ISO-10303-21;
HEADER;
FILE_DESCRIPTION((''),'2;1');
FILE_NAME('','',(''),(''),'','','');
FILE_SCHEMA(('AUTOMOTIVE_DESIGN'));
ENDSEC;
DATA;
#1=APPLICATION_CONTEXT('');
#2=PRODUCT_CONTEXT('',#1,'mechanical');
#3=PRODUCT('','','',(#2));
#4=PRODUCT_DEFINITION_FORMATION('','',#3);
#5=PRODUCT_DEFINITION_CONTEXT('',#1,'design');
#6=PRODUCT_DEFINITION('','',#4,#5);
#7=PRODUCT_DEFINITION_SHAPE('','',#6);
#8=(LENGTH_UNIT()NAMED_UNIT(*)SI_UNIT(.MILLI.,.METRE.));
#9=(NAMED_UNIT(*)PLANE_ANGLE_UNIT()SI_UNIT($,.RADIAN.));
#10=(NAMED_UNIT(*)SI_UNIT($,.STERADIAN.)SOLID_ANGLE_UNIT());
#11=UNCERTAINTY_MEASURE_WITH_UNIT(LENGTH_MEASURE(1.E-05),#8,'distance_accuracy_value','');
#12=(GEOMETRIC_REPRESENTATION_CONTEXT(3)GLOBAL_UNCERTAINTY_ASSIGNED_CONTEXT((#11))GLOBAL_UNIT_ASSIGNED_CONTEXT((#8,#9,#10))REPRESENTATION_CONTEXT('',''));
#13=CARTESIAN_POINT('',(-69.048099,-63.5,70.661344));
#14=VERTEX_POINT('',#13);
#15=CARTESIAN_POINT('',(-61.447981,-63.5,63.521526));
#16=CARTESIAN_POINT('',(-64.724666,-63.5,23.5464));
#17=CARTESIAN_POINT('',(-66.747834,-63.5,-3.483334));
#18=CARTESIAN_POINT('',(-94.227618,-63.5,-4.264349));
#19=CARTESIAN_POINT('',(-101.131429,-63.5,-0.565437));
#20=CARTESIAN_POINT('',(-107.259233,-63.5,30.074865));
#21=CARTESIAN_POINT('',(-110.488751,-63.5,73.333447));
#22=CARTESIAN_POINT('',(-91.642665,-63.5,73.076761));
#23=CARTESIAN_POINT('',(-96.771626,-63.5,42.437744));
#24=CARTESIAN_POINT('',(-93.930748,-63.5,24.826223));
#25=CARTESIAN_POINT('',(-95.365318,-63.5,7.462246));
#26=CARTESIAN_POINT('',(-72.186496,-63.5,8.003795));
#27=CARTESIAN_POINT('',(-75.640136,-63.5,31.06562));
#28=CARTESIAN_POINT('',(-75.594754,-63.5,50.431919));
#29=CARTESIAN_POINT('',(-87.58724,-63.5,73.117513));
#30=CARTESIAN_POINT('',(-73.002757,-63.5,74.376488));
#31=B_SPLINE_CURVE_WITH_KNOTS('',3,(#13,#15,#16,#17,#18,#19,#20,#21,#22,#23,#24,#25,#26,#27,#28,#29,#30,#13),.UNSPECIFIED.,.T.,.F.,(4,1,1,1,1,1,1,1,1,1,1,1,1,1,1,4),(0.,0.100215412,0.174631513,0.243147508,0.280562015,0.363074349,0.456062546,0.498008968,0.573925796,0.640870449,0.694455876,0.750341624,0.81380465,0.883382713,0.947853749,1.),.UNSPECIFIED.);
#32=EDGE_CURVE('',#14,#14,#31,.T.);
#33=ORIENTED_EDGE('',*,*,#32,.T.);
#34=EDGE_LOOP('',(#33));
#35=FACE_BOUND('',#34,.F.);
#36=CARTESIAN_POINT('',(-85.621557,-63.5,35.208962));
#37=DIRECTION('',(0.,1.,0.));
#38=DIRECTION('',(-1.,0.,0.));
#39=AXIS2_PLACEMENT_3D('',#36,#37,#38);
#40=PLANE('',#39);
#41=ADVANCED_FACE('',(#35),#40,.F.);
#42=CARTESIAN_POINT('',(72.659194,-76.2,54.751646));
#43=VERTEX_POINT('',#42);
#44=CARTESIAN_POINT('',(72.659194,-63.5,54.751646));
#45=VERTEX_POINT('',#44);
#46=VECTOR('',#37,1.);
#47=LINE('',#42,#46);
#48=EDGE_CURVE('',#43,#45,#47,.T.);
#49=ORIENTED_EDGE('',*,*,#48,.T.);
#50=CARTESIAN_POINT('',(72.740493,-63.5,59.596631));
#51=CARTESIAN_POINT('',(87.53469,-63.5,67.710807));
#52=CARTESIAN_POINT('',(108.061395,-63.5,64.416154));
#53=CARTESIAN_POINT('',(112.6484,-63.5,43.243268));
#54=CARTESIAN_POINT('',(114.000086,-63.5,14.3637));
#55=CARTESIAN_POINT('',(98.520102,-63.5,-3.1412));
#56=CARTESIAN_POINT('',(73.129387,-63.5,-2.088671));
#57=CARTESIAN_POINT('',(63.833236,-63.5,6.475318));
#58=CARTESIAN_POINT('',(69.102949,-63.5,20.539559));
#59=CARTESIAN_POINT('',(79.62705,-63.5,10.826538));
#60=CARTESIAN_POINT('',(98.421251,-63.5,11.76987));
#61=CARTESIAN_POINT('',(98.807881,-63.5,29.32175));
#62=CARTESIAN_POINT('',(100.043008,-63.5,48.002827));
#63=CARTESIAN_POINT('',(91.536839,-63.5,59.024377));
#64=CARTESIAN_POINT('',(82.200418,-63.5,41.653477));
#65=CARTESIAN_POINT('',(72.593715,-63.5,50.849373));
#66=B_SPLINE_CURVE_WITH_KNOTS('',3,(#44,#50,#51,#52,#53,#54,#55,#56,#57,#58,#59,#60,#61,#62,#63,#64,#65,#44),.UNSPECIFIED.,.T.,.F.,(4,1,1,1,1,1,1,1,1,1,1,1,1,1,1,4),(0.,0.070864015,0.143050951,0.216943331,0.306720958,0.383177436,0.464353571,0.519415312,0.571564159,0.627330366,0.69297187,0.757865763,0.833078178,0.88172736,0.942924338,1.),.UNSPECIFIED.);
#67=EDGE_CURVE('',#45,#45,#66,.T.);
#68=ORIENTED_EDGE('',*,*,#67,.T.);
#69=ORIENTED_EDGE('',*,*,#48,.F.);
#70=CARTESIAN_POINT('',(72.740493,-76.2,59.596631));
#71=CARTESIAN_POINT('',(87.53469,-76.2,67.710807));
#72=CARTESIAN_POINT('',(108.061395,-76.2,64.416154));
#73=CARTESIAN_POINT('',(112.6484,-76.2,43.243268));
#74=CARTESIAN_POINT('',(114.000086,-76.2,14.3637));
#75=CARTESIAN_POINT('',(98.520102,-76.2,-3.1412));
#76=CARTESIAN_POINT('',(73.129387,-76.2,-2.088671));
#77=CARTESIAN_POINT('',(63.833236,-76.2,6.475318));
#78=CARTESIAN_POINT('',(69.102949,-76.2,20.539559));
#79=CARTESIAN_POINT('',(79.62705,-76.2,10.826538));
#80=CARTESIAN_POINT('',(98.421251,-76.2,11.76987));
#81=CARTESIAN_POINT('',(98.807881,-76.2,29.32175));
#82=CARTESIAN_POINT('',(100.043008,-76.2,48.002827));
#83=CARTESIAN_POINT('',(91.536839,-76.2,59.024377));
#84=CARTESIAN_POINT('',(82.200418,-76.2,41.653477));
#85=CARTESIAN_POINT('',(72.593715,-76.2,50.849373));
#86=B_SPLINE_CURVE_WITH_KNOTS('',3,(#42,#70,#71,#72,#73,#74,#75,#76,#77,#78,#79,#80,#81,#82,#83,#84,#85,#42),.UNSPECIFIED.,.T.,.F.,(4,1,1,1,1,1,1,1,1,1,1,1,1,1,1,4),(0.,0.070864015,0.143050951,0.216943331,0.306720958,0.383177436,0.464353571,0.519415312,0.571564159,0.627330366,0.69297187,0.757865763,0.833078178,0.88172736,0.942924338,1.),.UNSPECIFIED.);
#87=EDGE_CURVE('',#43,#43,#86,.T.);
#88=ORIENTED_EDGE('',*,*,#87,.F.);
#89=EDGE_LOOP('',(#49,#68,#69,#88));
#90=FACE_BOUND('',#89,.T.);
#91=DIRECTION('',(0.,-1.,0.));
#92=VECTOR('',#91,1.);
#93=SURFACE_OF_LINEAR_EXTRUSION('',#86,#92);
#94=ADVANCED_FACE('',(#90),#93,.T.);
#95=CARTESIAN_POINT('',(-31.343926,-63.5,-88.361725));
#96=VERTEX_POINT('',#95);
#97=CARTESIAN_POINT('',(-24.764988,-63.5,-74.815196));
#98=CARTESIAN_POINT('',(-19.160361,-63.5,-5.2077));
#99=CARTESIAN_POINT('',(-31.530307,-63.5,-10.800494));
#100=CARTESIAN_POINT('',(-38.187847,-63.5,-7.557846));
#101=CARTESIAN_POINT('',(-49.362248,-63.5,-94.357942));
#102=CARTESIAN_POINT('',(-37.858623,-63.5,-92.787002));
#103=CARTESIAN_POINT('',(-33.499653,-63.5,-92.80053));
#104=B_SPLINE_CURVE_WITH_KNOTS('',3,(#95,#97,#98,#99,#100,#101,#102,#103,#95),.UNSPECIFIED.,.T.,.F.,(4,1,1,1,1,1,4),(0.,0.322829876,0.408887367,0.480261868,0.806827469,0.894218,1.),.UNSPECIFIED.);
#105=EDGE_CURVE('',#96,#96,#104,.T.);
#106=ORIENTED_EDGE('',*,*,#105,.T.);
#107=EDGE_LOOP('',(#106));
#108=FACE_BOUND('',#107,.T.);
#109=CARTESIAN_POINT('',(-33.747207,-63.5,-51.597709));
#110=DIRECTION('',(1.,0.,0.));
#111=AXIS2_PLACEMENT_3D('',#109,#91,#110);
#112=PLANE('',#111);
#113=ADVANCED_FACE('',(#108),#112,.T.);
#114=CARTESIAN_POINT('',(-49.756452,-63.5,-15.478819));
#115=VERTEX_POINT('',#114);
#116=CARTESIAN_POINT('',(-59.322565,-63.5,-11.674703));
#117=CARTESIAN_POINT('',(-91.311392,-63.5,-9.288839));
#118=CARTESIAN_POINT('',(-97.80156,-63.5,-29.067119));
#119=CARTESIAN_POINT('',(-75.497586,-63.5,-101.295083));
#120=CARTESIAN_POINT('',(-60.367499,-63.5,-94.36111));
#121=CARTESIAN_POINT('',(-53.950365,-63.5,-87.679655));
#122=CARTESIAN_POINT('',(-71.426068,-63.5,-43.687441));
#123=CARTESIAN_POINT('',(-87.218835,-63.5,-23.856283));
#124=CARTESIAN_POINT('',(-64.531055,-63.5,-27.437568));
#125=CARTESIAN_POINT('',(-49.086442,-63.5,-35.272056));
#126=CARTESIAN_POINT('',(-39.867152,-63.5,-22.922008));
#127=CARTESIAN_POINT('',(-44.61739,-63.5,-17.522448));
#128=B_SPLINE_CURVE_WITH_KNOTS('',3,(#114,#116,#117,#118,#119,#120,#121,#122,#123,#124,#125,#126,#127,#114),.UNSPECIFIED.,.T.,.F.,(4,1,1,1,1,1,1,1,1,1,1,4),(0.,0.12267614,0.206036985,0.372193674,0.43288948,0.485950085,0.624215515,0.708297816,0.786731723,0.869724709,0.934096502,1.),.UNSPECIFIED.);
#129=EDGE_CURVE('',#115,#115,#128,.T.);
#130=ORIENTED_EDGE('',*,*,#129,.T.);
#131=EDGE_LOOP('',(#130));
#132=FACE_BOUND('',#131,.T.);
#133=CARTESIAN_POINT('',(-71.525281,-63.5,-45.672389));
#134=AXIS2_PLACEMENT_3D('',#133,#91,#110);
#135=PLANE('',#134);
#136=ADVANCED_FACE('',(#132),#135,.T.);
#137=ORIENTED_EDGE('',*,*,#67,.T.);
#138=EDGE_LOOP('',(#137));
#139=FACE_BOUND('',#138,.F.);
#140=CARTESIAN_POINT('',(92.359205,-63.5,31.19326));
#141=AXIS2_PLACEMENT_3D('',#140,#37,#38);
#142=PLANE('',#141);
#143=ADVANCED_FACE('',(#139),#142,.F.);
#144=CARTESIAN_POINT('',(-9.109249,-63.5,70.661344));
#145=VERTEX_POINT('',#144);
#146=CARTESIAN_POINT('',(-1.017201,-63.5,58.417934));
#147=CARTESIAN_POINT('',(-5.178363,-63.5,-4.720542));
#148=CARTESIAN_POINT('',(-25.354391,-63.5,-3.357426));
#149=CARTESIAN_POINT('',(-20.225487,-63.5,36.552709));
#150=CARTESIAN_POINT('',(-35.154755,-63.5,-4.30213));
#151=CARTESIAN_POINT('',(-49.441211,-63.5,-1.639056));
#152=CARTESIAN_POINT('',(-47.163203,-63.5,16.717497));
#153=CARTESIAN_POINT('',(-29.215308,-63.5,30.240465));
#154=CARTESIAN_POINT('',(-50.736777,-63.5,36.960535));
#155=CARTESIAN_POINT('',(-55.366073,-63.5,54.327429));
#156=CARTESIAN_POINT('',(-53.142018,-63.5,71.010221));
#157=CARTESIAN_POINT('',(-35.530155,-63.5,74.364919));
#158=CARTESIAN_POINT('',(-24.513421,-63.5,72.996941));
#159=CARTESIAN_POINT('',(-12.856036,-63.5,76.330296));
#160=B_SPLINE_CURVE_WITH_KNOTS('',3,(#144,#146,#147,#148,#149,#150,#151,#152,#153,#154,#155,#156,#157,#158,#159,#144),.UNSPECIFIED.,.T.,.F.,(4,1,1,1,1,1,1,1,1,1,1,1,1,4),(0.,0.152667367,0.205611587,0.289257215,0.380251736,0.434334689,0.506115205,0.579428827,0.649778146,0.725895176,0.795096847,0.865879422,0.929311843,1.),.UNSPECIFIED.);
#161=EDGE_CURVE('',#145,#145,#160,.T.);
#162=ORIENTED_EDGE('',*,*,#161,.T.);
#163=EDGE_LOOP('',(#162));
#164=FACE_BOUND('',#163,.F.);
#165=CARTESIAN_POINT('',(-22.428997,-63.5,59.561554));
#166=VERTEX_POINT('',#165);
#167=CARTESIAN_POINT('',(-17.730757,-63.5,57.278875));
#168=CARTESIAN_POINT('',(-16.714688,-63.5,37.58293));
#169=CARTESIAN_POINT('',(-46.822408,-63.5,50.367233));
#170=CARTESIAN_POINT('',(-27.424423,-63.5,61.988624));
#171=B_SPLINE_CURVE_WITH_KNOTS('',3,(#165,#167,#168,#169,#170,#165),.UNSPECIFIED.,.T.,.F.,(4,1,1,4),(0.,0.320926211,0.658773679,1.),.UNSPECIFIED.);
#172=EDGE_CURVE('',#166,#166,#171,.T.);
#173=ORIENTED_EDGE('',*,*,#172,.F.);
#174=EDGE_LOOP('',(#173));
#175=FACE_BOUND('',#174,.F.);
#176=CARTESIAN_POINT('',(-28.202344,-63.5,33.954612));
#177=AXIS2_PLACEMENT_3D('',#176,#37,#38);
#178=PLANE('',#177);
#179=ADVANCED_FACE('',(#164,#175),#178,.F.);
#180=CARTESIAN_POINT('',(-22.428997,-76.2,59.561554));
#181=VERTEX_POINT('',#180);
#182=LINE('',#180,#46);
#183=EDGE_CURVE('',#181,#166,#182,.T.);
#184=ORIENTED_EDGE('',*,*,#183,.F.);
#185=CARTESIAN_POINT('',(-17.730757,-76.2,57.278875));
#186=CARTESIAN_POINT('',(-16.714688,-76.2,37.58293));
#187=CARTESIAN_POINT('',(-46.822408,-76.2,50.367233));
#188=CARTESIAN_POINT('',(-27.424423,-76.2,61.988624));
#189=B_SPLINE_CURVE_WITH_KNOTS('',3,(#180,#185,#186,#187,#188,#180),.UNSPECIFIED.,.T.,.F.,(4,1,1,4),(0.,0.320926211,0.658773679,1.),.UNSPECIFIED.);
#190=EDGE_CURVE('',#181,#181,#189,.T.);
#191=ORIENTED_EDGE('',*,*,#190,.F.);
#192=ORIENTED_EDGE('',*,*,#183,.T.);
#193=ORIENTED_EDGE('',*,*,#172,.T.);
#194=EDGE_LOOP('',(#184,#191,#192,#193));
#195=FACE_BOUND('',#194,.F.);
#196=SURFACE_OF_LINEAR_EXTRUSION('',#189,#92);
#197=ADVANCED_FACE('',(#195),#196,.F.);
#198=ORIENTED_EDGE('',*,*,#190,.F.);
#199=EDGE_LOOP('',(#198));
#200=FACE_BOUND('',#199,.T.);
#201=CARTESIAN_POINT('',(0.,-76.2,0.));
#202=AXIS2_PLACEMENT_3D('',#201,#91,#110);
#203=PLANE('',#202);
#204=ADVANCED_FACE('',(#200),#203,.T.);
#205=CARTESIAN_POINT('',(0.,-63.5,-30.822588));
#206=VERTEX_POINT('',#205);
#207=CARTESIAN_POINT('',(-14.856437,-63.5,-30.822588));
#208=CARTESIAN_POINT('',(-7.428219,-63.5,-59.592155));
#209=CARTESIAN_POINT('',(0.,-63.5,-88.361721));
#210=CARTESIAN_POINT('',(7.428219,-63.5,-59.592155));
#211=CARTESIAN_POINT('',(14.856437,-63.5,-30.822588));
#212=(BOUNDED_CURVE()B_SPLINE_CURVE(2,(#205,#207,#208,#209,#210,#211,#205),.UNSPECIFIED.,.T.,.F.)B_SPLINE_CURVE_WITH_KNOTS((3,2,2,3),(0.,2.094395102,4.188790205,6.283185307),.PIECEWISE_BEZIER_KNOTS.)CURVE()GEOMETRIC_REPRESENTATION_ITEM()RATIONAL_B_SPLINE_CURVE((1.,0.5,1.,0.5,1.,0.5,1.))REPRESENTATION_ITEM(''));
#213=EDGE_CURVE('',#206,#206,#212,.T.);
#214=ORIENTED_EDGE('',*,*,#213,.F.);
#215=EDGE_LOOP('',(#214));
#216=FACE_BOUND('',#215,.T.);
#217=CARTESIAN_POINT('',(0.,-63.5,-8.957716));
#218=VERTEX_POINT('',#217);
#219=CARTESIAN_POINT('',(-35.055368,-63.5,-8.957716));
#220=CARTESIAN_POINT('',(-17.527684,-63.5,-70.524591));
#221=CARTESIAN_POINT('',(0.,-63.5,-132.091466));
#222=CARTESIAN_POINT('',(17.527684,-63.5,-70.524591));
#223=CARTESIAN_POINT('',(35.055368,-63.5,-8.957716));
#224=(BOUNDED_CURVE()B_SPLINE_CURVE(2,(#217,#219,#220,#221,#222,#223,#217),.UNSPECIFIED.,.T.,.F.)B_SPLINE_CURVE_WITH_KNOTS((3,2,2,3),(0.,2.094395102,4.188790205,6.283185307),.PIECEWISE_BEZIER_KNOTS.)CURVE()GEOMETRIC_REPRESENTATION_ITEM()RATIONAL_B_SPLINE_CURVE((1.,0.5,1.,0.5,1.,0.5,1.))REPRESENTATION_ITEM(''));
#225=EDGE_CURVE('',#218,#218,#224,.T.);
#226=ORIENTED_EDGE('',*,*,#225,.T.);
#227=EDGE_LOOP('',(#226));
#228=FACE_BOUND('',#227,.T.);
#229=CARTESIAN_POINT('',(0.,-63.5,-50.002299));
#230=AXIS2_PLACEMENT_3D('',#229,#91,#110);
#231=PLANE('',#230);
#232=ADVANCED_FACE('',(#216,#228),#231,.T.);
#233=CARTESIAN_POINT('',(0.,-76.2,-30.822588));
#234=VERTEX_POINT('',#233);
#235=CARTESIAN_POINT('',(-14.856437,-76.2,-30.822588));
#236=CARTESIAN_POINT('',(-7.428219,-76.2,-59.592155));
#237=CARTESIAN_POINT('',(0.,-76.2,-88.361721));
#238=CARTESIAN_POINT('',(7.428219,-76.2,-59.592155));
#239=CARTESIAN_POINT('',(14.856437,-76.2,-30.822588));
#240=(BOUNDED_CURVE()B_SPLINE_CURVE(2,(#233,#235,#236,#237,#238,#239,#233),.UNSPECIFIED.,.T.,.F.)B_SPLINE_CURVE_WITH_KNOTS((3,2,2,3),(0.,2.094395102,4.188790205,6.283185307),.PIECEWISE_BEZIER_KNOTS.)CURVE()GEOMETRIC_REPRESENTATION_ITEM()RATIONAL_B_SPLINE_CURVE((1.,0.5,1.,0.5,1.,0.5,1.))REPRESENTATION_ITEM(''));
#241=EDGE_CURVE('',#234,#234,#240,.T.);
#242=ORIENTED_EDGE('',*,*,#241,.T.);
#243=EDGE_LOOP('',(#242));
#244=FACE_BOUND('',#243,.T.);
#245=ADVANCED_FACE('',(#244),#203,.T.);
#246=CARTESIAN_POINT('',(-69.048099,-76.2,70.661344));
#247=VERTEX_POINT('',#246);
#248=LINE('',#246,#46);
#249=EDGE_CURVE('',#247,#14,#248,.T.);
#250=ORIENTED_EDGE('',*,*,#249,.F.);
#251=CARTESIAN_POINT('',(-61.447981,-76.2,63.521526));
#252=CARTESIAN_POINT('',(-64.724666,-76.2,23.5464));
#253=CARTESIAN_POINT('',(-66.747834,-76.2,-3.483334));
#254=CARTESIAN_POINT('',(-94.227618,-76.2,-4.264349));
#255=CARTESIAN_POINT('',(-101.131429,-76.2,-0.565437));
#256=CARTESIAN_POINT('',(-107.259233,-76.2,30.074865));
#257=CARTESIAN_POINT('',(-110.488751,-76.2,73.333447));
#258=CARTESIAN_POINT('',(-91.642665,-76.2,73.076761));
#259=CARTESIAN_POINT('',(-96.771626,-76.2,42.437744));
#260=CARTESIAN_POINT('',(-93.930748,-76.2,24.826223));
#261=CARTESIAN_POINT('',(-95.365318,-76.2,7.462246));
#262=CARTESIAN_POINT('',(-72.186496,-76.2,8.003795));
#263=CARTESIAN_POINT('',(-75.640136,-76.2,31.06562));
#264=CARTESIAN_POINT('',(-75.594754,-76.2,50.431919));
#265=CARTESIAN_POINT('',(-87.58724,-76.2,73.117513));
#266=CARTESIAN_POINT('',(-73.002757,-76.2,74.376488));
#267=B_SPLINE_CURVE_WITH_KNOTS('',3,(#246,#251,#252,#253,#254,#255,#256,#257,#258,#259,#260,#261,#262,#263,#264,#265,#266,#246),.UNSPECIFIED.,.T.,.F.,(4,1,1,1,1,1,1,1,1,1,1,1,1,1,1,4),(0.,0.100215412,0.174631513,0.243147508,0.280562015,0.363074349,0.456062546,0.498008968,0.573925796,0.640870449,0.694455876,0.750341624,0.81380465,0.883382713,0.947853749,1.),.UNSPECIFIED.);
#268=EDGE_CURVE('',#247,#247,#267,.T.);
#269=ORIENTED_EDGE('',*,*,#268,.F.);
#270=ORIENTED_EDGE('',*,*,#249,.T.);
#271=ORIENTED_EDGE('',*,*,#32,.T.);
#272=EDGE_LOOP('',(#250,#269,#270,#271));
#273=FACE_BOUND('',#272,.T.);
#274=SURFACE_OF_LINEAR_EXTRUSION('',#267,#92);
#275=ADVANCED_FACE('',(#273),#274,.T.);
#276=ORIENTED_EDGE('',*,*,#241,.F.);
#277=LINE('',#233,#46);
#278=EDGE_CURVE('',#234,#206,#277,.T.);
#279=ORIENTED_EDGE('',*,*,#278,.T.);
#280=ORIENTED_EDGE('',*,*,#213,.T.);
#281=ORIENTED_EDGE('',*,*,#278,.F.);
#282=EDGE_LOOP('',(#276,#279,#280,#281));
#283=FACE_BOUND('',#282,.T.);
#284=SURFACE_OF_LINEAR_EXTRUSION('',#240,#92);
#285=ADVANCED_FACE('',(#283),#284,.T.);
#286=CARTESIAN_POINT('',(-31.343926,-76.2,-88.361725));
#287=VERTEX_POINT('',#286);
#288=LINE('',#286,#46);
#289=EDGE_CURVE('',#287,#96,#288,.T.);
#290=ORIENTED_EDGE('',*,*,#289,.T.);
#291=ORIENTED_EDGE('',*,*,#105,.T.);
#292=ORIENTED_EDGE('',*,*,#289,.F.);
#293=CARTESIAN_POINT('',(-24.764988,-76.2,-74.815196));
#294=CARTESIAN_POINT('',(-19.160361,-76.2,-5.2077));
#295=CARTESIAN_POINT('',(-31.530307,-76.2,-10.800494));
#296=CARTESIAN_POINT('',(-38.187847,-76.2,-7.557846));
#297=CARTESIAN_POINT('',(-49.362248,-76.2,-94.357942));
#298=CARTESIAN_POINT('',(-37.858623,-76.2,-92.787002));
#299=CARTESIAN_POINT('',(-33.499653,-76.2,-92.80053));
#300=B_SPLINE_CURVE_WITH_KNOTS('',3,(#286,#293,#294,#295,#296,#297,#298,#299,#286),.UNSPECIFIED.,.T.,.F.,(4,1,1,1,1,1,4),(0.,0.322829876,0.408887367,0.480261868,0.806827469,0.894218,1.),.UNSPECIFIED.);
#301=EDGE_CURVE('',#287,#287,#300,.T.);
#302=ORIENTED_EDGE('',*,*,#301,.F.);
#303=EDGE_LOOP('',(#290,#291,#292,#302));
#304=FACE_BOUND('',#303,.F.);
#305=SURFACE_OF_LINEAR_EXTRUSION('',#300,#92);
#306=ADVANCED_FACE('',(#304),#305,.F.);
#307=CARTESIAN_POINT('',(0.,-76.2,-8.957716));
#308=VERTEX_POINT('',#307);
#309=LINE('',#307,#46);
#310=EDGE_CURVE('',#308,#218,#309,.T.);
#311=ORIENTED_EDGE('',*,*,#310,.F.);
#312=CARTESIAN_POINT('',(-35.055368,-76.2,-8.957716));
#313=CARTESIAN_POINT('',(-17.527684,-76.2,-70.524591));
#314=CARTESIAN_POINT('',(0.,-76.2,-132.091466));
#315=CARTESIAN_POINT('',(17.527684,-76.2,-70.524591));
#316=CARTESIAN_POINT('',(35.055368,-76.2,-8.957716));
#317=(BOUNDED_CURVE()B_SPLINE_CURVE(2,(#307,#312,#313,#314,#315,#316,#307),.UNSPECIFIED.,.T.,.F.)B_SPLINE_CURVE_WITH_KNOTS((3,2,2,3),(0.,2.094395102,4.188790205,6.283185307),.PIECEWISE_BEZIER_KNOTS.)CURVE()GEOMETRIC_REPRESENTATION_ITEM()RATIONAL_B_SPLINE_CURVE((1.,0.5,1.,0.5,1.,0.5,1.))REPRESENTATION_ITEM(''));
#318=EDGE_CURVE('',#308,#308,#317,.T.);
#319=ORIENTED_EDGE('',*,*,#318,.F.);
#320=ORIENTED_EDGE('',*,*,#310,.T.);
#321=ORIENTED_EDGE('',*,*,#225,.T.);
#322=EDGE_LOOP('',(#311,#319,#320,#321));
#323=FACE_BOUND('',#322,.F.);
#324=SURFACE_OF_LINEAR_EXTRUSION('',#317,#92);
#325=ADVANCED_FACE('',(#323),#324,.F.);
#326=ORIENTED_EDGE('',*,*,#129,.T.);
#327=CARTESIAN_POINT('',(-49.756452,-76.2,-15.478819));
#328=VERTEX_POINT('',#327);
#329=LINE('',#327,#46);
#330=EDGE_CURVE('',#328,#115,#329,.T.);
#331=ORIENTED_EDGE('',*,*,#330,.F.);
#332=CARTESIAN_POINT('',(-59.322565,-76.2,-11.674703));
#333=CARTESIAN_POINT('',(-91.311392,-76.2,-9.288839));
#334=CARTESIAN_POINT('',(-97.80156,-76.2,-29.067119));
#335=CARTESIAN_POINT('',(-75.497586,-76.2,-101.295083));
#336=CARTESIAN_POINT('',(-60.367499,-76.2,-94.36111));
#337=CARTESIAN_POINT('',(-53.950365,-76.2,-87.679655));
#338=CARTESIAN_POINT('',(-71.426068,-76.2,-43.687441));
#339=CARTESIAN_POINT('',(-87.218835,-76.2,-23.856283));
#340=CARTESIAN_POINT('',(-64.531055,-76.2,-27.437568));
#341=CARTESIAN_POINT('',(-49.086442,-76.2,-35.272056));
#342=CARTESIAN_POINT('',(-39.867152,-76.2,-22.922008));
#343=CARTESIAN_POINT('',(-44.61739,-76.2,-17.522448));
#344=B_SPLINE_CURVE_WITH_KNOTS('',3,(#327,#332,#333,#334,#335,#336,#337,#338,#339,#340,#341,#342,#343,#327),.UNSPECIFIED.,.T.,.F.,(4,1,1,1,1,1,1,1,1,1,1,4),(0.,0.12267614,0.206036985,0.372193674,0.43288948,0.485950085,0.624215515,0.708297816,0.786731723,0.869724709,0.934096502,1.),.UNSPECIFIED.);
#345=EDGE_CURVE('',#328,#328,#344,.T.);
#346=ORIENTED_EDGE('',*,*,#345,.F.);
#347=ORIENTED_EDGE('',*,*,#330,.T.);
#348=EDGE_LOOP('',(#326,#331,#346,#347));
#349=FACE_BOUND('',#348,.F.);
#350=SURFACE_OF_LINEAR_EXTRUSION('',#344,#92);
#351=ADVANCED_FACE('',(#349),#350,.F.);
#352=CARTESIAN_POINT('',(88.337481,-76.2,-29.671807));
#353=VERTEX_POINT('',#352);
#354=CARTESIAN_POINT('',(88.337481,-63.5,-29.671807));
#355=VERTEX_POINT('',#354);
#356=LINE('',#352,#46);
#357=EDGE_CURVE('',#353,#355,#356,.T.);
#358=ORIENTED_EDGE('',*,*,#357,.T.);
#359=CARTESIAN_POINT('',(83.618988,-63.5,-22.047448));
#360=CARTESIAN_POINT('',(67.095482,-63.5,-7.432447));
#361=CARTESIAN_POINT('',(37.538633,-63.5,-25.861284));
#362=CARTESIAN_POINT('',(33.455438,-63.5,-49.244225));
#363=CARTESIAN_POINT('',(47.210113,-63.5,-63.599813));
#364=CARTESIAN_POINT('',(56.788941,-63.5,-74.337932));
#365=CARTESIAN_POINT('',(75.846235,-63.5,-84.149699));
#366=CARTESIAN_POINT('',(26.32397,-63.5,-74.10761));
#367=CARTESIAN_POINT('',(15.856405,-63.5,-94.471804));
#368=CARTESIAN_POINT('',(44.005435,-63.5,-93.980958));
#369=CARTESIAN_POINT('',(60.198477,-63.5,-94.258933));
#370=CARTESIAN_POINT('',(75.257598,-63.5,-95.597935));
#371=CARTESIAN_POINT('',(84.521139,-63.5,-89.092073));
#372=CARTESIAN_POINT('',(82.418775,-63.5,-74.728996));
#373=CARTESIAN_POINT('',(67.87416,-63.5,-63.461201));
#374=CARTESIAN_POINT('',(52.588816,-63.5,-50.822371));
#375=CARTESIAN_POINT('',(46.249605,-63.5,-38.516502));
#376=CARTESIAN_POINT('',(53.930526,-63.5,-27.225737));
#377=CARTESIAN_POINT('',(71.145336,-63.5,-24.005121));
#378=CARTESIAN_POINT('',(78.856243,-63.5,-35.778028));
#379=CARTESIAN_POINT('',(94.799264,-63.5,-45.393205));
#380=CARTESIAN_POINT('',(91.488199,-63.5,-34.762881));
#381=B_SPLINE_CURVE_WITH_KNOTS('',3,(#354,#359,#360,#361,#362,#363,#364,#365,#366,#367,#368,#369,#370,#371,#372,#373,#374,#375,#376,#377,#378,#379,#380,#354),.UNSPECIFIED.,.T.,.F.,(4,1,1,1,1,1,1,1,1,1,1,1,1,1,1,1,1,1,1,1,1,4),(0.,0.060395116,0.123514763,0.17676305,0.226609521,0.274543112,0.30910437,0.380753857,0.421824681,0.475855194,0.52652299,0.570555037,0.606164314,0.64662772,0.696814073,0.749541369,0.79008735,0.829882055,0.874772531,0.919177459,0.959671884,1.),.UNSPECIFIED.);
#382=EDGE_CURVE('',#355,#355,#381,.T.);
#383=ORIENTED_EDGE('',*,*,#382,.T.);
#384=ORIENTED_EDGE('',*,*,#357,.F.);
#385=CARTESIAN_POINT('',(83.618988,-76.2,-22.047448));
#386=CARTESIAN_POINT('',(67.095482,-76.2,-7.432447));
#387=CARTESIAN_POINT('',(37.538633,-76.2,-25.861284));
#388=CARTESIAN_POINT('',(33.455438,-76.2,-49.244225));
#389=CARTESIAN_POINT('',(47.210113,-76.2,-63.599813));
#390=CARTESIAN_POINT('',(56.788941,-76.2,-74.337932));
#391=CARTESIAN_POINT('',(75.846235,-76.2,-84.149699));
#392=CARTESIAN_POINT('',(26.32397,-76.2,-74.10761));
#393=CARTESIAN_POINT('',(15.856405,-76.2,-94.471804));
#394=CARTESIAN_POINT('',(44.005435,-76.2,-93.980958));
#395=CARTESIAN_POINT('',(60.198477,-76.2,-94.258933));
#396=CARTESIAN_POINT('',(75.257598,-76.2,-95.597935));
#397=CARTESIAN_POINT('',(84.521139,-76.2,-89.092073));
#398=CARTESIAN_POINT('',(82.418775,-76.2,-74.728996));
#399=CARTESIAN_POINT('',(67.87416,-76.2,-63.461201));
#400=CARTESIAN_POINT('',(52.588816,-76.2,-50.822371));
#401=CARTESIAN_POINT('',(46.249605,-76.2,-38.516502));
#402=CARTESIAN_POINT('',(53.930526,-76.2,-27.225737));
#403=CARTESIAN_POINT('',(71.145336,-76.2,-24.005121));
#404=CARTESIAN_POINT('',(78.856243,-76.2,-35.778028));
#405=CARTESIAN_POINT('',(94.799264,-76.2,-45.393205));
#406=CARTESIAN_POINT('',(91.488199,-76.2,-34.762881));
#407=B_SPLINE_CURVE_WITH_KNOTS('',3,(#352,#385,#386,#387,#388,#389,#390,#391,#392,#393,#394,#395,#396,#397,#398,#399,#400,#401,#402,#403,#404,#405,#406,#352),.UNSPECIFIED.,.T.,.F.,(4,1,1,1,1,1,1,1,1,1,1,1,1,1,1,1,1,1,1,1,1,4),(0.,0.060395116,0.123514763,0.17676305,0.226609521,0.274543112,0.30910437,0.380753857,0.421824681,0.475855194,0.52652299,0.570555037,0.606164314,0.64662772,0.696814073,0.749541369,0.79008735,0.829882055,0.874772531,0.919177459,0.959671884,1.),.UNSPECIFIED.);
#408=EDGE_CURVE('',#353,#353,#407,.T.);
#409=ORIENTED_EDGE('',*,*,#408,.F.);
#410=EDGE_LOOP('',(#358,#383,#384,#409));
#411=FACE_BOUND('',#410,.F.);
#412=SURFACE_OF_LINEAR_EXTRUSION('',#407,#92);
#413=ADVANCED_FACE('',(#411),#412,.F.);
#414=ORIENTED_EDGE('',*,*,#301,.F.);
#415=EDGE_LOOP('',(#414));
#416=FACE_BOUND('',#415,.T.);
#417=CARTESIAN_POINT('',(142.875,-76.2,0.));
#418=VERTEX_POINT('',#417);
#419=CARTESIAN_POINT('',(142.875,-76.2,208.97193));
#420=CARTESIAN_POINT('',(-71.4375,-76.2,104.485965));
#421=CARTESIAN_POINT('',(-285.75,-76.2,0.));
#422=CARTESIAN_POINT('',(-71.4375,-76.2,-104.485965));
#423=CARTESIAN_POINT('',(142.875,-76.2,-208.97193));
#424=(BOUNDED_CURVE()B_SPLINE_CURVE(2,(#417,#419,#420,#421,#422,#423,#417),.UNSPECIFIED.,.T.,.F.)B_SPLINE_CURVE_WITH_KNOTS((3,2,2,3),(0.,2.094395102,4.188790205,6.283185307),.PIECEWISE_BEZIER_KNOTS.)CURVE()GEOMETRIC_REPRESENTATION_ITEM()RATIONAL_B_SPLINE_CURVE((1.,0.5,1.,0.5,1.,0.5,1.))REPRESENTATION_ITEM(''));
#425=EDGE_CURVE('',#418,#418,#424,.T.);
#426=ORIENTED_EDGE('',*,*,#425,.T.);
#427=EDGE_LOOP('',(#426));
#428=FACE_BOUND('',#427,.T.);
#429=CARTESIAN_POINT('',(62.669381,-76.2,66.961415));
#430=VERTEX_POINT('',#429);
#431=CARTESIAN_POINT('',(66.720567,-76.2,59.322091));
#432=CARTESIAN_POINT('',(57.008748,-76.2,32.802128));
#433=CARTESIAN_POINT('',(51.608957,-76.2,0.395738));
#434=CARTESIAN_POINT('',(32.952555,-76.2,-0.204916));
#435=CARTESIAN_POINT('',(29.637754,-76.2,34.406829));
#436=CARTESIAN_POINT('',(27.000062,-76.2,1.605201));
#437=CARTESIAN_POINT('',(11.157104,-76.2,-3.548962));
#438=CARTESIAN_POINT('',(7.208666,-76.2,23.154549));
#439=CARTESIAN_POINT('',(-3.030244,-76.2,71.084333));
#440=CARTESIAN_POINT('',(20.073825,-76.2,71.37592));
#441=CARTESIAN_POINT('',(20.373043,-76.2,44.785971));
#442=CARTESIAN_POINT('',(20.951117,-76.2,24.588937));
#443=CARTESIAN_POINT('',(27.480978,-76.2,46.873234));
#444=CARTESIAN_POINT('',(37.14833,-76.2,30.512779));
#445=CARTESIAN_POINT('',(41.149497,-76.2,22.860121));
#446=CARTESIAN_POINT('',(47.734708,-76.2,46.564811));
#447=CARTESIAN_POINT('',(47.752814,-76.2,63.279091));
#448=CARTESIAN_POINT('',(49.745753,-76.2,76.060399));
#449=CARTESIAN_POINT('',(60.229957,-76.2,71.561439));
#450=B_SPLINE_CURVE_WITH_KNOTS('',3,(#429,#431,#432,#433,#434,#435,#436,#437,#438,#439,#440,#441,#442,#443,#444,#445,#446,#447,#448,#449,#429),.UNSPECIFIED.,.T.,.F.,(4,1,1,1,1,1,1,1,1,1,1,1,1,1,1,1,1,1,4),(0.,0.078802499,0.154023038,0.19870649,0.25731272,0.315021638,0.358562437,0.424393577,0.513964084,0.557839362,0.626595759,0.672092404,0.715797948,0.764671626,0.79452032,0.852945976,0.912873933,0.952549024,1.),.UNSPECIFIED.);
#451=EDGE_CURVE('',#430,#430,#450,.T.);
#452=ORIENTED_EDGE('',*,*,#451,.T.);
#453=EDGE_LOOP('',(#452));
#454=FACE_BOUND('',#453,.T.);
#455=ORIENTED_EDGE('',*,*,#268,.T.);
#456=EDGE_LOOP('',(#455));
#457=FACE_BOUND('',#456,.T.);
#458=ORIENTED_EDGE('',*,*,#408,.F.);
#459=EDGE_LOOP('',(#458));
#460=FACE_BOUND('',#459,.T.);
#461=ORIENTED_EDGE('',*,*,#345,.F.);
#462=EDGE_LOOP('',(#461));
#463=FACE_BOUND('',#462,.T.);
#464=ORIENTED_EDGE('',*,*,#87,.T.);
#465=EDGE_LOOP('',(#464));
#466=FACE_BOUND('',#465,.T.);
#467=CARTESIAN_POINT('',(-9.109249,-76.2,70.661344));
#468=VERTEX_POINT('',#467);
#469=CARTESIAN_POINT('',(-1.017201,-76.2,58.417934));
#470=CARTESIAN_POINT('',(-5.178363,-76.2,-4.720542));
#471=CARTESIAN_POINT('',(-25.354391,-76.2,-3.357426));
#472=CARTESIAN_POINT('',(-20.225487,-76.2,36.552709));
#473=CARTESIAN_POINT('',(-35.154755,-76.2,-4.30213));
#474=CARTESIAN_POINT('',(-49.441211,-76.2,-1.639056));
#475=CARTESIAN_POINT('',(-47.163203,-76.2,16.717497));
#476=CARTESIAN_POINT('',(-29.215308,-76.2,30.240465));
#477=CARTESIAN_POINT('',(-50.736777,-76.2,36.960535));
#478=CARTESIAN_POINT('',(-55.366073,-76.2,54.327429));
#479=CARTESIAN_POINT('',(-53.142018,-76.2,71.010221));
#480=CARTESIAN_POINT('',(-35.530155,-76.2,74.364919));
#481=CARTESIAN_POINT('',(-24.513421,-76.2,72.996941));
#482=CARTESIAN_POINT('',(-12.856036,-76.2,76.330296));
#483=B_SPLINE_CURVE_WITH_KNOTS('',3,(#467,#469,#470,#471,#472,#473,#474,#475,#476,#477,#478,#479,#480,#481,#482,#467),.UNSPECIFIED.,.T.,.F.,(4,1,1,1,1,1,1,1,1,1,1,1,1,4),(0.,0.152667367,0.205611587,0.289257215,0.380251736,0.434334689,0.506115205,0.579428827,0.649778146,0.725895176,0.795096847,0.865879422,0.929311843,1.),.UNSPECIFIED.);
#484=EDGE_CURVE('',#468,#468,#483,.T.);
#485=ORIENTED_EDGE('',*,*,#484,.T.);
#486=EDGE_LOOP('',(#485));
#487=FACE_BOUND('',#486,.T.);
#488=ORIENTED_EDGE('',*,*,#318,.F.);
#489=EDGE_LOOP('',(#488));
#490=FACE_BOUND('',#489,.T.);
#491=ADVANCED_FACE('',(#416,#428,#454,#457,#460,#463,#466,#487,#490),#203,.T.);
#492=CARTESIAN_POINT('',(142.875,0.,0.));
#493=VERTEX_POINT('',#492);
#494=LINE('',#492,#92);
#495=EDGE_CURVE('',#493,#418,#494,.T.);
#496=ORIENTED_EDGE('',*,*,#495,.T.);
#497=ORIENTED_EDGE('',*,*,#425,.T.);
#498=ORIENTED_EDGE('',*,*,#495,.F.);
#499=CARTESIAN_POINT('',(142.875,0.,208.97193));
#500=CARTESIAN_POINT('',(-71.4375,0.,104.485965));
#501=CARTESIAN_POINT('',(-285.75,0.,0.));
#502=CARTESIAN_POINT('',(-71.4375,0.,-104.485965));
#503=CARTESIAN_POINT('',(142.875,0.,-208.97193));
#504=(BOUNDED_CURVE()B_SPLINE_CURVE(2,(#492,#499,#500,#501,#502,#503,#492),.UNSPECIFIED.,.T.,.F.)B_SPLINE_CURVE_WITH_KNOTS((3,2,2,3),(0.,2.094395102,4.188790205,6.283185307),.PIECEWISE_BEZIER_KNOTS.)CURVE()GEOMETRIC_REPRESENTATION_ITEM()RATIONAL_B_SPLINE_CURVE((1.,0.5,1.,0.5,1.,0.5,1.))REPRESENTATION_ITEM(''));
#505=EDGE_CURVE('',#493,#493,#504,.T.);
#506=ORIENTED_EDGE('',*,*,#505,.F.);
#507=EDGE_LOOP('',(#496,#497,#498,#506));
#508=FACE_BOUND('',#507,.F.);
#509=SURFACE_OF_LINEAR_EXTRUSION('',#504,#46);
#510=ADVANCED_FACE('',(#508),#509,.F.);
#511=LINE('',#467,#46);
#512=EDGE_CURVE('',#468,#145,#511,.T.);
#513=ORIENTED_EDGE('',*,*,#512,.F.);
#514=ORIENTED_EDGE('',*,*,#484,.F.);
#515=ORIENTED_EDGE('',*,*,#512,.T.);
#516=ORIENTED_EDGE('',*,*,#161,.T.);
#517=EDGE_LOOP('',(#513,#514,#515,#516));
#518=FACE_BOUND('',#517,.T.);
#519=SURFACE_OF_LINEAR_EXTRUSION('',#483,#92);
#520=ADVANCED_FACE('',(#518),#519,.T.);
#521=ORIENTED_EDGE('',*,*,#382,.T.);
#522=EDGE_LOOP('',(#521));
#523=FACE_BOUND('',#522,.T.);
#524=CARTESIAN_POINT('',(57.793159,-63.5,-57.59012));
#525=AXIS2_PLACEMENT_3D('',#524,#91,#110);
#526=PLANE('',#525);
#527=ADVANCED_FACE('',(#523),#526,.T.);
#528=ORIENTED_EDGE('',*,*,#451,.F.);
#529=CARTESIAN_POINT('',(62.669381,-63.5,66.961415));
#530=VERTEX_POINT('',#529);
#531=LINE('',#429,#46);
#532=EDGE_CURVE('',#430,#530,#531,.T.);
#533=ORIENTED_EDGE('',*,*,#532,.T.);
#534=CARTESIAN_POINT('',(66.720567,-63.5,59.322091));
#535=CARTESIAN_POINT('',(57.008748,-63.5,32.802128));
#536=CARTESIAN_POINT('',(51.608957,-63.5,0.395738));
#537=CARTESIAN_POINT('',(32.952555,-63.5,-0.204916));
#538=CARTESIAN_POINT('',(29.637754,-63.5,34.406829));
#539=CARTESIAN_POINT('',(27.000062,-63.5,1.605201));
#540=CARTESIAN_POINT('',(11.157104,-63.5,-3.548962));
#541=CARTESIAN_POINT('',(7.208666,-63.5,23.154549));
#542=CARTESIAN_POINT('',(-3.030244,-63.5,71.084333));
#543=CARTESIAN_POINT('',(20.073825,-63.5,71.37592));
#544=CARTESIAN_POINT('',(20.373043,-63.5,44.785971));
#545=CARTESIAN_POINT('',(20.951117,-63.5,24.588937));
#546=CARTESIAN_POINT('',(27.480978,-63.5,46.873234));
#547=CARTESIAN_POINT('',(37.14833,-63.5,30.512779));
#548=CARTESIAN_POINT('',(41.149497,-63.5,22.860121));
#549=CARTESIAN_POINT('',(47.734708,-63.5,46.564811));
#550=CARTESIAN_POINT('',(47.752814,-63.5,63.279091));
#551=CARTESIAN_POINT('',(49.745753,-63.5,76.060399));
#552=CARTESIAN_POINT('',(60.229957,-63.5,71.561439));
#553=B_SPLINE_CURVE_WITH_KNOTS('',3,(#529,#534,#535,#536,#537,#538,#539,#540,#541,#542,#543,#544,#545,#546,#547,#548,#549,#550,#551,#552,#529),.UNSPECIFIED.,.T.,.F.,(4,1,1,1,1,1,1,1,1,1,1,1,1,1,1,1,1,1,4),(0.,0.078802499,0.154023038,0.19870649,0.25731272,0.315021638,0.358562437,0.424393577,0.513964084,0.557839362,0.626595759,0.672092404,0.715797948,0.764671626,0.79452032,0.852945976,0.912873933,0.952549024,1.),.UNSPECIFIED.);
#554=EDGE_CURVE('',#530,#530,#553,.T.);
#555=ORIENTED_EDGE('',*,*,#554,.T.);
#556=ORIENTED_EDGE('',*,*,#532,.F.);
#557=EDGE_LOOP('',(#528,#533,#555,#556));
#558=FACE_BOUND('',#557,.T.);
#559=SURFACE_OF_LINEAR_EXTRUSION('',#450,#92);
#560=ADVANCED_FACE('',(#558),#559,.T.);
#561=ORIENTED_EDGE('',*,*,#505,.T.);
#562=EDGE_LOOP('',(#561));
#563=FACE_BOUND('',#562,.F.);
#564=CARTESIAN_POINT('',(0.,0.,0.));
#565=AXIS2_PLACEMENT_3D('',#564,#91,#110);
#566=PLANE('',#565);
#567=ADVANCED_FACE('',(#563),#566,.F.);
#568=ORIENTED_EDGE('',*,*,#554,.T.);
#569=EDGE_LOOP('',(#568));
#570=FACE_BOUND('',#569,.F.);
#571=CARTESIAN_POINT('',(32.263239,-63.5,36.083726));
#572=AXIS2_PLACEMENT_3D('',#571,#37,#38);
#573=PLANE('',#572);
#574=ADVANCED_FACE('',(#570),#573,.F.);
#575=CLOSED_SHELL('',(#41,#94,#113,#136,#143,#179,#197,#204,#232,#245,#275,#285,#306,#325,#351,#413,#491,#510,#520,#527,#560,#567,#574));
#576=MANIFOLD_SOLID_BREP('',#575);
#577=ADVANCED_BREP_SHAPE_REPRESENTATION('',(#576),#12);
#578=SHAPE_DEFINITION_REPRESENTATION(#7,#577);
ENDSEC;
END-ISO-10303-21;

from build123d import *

# Parameters (mm, degrees)
F1_DEPTH = 76.2
F3_DEPTH = 12.7


with BuildPart() as f1:
    # F0 (on Front) → F1 (new body)
    with BuildSketch(Plane.XZ):
        with BuildLine():
            add(Edge.make_bspline(
                [(142.875, 0), (142.875, 208.9719299332), (-71.4375, 104.4859649666), (-285.75, 0), (-71.4375, -104.4859649666), (142.875, -208.9719299332), (142.875, 0)],
                knots=[0, 0, 0, 2.0943951024, 2.0943951024, 4.1887902048, 4.1887902048, 6.2831853072, 6.2831853072, 6.2831853072], degree=2, weights=[1, 0.5, 1, 0.5, 1, 0.5, 1]))
        make_face()
    extrude(amount=F1_DEPTH)

    # F2 (on face) → F3 (cut)
    with BuildSketch(Plane.XZ.offset(76.2)):
        with BuildLine():
            add(Edge.make_bspline(
                [(72.6591944695, 54.7516457736), (72.7404926903, 59.5966305516), (87.5346904725, 67.7108070681), (108.0613948811, 64.4161535401), (112.6484002695, 43.2432680581), (114.0000863036, 14.3636995121), (98.5201024746, -3.141200117), (73.1293868092, -2.0886713892), (63.8332362039, 6.4753181858), (69.1029486378, 20.5395592872), (79.6270495247, 10.8265384194), (98.4212510473, 11.7698702823), (98.8078812261, 29.3217496835), (100.0430081085, 48.0028272121), (91.5368387102, 59.0243770963), (82.2004184264, 41.6534774901), (72.593714835, 50.8493730189), (72.6591944695, 54.7516457736)],
                knots=[0, 0, 0, 0, 0.070864015, 0.1430509507, 0.2169433306, 0.3067209578, 0.3831774356, 0.4643535712, 0.5194153116, 0.571564159, 0.6273303663, 0.6929718696, 0.757865763, 0.8330781777, 0.8817273601, 0.9429243377, 1, 1, 1, 1], degree=3))
        make_face()
        with BuildLine():
            add(Edge.make_bspline(
                [(62.6693814993, 66.961415112), (66.7205670522, 59.3220913815), (57.0087478353, 32.8021279273), (51.6089574163, 0.3957380542), (32.9525546336, -0.204915862), (29.6377539975, 34.4068288011), (27.0000615797, 1.6052014766), (11.1571041866, -3.5489621438), (7.2086658272, 23.154548987), (-3.0302438824, 71.0843334707), (20.0738254658, 71.3759195548), (20.3730432109, 44.7859710465), (20.9511168397, 24.5889370604), (27.4809779721, 46.8732339343), (37.1483295673, 30.5127789291), (41.1494969341, 22.8601209053), (47.7347082358, 46.564811218), (47.7528141788, 63.2790908596), (49.7457525514, 76.0603990839), (60.2299574818, 71.5614388687), (62.6693814993, 66.961415112)],
                knots=[0, 0, 0, 0, 0.0788024993, 0.1540230385, 0.1987064901, 0.2573127198, 0.3150216379, 0.3585624366, 0.4243935768, 0.5139640841, 0.5578393619, 0.6265957594, 0.6720924043, 0.7157979479, 0.7646716264, 0.7945203204, 0.8529459763, 0.9128739334, 0.9525490238, 1, 1, 1, 1], degree=3))
        make_face()
        with BuildLine():
            add(Edge.make_bspline(
                [(-9.1092493385, 70.6613436341), (-1.0172006772, 58.4179341394), (-5.178362605, -4.7205420861), (-25.3543905684, -3.3574257378), (-20.2254869297, 36.5527086401), (-35.1547546056, -4.3021296504), (-49.4412105459, -1.6390556544), (-47.1632031572, 16.7174967177), (-29.2153081962, 30.2404650435), (-50.7367773024, 36.9605354363), (-55.366072812, 54.3274294764), (-53.1420181833, 71.0102211377), (-35.5301552889, 74.3649187806), (-24.5134208236, 72.9969409067), (-12.8560356975, 76.3302961581), (-9.1092493385, 70.6613436341)],
                knots=[0, 0, 0, 0, 0.1526673673, 0.2056115869, 0.2892572145, 0.3802517355, 0.4343346886, 0.506115205, 0.5794288265, 0.6497781456, 0.7258951757, 0.7950968465, 0.8658794218, 0.9293118426, 1, 1, 1, 1], degree=3))
        make_face()
        with BuildLine():
            add(Edge.make_bspline(
                [(-22.428996861, 59.5615543425), (-17.730756592, 57.2788753123), (-16.714688456, 37.5829301294), (-46.8224082674, 50.3672328917), (-27.4244231819, 61.9886236827), (-22.428996861, 59.5615543425)],
                knots=[0, 0, 0, 0, 0.3209262114, 0.6587736788, 1, 1, 1, 1], degree=3))
        make_face(mode=Mode.SUBTRACT)
        with BuildLine():
            add(Edge.make_bspline(
                [(-69.0480992198, 70.6613436341), (-61.4479808108, 63.5215259669), (-64.7246656343, 23.5463996156), (-66.7478343218, -3.4833341533), (-94.227618463, -4.2643493653), (-101.1314294839, -0.5654371678), (-107.259232634, 30.0748646381), (-110.4887506207, 73.3334472666), (-91.6426649353, 73.0767613852), (-96.7716258832, 42.4377443685), (-93.930747863, 24.826222851), (-95.3653175975, 7.462245561), (-72.1864963137, 8.0037949256), (-75.6401356824, 31.0656196397), (-75.5947537561, 50.4319189564), (-87.5872399263, 73.1175129205), (-73.0027572355, 74.3764880107), (-69.0480992198, 70.6613436341)],
                knots=[0, 0, 0, 0, 0.1002154123, 0.1746315134, 0.2431475083, 0.2805620151, 0.3630743487, 0.4560625456, 0.4980089681, 0.5739257964, 0.6408704491, 0.694455876, 0.750341624, 0.8138046502, 0.8833827129, 0.9478537488, 1, 1, 1, 1], degree=3))
        make_face()
        with BuildLine():
            add(Edge.make_bspline(
                [(88.3374810219, -29.6718068421), (83.6189876279, -22.0474478406), (67.0954815171, -7.4324473393), (37.5386330264, -25.8612836591), (33.4554381902, -49.2442246039), (47.2101127608, -63.599813334), (56.7889412889, -74.3379316866), (75.8462354699, -84.149699389), (26.3239703035, -74.1076100339), (15.8564045929, -94.4718044248), (44.0054349825, -93.9809576335), (60.198477235, -94.258933259), (75.257598142, -95.5979354205), (84.5211391767, -89.0920732299), (82.418775095, -74.7289957745), (67.8741599384, -63.4612005917), (52.5888158802, -50.8223711354), (46.2496048931, -38.5165018787), (53.9305261988, -27.2257371579), (71.1453360802, -24.0051210162), (78.8562432903, -35.7780281169), (94.7992641175, -45.3932046422), (91.4881985173, -34.762881321), (88.3374810219, -29.6718068421)],
                knots=[0, 0, 0, 0, 0.0603951162, 0.1235147633, 0.1767630497, 0.2266095214, 0.2745431119, 0.3091043701, 0.3807538566, 0.421824681, 0.4758551937, 0.5265229896, 0.5705550374, 0.6061643136, 0.6466277202, 0.6968140726, 0.7495413687, 0.7900873495, 0.8298820548, 0.8747725305, 0.9191774589, 0.9596718839, 1, 1, 1, 1], degree=3))
        make_face()
        with BuildLine():
            add(Edge.make_bspline(
                [(0, -8.957715705), (-35.0553676389, -8.957715705), (-17.5276838194, -70.5245910212), (0, -132.0914663374), (17.5276838194, -70.5245910212), (35.0553676389, -8.957715705), (0, -8.957715705)],
                knots=[0, 0, 0, 2.0943951024, 2.0943951024, 4.1887902048, 4.1887902048, 6.2831853072, 6.2831853072, 6.2831853072], degree=2, weights=[1, 0.5, 1, 0.5, 1, 0.5, 1]))
        make_face()
        with BuildLine():
            add(Edge.make_bspline(
                [(0, -30.8225881308), (-14.8564373876, -30.8225881308), (-7.4282186938, -59.5921548083), (0, -88.3617214859), (7.4282186938, -59.5921548083), (14.8564373876, -30.8225881308), (0, -30.8225881308)],
                knots=[0, 0, 0, 2.0943951024, 2.0943951024, 4.1887902048, 4.1887902048, 6.2831853072, 6.2831853072, 6.2831853072], degree=2, weights=[1, 0.5, 1, 0.5, 1, 0.5, 1]))
        make_face(mode=Mode.SUBTRACT)
        with BuildLine():
            add(Edge.make_bspline(
                [(-31.3439257443, -88.3617252111), (-24.7649881146, -74.8151960511), (-19.1603605689, -5.2076998206), (-31.5303066131, -10.8004936565), (-38.1878468709, -7.5578463054), (-49.3622483773, -94.3579423357), (-37.8586227702, -92.7870024379), (-33.4996530521, -92.800530453), (-31.3439257443, -88.3617252111)],
                knots=[0, 0, 0, 0, 0.3228298759, 0.4088873667, 0.4802618676, 0.8068274691, 0.8942180002, 1, 1, 1, 1], degree=3))
        make_face()
        with BuildLine():
            add(Edge.make_bspline(
                [(-49.7564524412, -15.4788186774), (-59.3225652006, -11.6747030341), (-91.3113918284, -9.2888388623), (-97.8015600035, -29.0671187456), (-75.4975856818, -101.2950833292), (-60.367499325, -94.3611100628), (-53.9503651043, -87.6796548348), (-71.4260683752, -43.6874409247), (-87.218835191, -23.856282927), (-64.5310552172, -27.4375683069), (-49.0864420878, -35.2720556483), (-39.867152168, -22.9220084237), (-44.6173904618, -17.5224477417), (-49.7564524412, -15.4788186774)],
                knots=[0, 0, 0, 0, 0.1226761404, 0.2060369851, 0.3721936744, 0.4328894805, 0.4859500849, 0.6242155151, 0.7082978163, 0.7867317228, 0.8697247092, 0.9340965025, 1, 1, 1, 1], degree=3))
        make_face()
    extrude(amount=-F3_DEPTH, mode=Mode.SUBTRACT)


solid = f1.part
